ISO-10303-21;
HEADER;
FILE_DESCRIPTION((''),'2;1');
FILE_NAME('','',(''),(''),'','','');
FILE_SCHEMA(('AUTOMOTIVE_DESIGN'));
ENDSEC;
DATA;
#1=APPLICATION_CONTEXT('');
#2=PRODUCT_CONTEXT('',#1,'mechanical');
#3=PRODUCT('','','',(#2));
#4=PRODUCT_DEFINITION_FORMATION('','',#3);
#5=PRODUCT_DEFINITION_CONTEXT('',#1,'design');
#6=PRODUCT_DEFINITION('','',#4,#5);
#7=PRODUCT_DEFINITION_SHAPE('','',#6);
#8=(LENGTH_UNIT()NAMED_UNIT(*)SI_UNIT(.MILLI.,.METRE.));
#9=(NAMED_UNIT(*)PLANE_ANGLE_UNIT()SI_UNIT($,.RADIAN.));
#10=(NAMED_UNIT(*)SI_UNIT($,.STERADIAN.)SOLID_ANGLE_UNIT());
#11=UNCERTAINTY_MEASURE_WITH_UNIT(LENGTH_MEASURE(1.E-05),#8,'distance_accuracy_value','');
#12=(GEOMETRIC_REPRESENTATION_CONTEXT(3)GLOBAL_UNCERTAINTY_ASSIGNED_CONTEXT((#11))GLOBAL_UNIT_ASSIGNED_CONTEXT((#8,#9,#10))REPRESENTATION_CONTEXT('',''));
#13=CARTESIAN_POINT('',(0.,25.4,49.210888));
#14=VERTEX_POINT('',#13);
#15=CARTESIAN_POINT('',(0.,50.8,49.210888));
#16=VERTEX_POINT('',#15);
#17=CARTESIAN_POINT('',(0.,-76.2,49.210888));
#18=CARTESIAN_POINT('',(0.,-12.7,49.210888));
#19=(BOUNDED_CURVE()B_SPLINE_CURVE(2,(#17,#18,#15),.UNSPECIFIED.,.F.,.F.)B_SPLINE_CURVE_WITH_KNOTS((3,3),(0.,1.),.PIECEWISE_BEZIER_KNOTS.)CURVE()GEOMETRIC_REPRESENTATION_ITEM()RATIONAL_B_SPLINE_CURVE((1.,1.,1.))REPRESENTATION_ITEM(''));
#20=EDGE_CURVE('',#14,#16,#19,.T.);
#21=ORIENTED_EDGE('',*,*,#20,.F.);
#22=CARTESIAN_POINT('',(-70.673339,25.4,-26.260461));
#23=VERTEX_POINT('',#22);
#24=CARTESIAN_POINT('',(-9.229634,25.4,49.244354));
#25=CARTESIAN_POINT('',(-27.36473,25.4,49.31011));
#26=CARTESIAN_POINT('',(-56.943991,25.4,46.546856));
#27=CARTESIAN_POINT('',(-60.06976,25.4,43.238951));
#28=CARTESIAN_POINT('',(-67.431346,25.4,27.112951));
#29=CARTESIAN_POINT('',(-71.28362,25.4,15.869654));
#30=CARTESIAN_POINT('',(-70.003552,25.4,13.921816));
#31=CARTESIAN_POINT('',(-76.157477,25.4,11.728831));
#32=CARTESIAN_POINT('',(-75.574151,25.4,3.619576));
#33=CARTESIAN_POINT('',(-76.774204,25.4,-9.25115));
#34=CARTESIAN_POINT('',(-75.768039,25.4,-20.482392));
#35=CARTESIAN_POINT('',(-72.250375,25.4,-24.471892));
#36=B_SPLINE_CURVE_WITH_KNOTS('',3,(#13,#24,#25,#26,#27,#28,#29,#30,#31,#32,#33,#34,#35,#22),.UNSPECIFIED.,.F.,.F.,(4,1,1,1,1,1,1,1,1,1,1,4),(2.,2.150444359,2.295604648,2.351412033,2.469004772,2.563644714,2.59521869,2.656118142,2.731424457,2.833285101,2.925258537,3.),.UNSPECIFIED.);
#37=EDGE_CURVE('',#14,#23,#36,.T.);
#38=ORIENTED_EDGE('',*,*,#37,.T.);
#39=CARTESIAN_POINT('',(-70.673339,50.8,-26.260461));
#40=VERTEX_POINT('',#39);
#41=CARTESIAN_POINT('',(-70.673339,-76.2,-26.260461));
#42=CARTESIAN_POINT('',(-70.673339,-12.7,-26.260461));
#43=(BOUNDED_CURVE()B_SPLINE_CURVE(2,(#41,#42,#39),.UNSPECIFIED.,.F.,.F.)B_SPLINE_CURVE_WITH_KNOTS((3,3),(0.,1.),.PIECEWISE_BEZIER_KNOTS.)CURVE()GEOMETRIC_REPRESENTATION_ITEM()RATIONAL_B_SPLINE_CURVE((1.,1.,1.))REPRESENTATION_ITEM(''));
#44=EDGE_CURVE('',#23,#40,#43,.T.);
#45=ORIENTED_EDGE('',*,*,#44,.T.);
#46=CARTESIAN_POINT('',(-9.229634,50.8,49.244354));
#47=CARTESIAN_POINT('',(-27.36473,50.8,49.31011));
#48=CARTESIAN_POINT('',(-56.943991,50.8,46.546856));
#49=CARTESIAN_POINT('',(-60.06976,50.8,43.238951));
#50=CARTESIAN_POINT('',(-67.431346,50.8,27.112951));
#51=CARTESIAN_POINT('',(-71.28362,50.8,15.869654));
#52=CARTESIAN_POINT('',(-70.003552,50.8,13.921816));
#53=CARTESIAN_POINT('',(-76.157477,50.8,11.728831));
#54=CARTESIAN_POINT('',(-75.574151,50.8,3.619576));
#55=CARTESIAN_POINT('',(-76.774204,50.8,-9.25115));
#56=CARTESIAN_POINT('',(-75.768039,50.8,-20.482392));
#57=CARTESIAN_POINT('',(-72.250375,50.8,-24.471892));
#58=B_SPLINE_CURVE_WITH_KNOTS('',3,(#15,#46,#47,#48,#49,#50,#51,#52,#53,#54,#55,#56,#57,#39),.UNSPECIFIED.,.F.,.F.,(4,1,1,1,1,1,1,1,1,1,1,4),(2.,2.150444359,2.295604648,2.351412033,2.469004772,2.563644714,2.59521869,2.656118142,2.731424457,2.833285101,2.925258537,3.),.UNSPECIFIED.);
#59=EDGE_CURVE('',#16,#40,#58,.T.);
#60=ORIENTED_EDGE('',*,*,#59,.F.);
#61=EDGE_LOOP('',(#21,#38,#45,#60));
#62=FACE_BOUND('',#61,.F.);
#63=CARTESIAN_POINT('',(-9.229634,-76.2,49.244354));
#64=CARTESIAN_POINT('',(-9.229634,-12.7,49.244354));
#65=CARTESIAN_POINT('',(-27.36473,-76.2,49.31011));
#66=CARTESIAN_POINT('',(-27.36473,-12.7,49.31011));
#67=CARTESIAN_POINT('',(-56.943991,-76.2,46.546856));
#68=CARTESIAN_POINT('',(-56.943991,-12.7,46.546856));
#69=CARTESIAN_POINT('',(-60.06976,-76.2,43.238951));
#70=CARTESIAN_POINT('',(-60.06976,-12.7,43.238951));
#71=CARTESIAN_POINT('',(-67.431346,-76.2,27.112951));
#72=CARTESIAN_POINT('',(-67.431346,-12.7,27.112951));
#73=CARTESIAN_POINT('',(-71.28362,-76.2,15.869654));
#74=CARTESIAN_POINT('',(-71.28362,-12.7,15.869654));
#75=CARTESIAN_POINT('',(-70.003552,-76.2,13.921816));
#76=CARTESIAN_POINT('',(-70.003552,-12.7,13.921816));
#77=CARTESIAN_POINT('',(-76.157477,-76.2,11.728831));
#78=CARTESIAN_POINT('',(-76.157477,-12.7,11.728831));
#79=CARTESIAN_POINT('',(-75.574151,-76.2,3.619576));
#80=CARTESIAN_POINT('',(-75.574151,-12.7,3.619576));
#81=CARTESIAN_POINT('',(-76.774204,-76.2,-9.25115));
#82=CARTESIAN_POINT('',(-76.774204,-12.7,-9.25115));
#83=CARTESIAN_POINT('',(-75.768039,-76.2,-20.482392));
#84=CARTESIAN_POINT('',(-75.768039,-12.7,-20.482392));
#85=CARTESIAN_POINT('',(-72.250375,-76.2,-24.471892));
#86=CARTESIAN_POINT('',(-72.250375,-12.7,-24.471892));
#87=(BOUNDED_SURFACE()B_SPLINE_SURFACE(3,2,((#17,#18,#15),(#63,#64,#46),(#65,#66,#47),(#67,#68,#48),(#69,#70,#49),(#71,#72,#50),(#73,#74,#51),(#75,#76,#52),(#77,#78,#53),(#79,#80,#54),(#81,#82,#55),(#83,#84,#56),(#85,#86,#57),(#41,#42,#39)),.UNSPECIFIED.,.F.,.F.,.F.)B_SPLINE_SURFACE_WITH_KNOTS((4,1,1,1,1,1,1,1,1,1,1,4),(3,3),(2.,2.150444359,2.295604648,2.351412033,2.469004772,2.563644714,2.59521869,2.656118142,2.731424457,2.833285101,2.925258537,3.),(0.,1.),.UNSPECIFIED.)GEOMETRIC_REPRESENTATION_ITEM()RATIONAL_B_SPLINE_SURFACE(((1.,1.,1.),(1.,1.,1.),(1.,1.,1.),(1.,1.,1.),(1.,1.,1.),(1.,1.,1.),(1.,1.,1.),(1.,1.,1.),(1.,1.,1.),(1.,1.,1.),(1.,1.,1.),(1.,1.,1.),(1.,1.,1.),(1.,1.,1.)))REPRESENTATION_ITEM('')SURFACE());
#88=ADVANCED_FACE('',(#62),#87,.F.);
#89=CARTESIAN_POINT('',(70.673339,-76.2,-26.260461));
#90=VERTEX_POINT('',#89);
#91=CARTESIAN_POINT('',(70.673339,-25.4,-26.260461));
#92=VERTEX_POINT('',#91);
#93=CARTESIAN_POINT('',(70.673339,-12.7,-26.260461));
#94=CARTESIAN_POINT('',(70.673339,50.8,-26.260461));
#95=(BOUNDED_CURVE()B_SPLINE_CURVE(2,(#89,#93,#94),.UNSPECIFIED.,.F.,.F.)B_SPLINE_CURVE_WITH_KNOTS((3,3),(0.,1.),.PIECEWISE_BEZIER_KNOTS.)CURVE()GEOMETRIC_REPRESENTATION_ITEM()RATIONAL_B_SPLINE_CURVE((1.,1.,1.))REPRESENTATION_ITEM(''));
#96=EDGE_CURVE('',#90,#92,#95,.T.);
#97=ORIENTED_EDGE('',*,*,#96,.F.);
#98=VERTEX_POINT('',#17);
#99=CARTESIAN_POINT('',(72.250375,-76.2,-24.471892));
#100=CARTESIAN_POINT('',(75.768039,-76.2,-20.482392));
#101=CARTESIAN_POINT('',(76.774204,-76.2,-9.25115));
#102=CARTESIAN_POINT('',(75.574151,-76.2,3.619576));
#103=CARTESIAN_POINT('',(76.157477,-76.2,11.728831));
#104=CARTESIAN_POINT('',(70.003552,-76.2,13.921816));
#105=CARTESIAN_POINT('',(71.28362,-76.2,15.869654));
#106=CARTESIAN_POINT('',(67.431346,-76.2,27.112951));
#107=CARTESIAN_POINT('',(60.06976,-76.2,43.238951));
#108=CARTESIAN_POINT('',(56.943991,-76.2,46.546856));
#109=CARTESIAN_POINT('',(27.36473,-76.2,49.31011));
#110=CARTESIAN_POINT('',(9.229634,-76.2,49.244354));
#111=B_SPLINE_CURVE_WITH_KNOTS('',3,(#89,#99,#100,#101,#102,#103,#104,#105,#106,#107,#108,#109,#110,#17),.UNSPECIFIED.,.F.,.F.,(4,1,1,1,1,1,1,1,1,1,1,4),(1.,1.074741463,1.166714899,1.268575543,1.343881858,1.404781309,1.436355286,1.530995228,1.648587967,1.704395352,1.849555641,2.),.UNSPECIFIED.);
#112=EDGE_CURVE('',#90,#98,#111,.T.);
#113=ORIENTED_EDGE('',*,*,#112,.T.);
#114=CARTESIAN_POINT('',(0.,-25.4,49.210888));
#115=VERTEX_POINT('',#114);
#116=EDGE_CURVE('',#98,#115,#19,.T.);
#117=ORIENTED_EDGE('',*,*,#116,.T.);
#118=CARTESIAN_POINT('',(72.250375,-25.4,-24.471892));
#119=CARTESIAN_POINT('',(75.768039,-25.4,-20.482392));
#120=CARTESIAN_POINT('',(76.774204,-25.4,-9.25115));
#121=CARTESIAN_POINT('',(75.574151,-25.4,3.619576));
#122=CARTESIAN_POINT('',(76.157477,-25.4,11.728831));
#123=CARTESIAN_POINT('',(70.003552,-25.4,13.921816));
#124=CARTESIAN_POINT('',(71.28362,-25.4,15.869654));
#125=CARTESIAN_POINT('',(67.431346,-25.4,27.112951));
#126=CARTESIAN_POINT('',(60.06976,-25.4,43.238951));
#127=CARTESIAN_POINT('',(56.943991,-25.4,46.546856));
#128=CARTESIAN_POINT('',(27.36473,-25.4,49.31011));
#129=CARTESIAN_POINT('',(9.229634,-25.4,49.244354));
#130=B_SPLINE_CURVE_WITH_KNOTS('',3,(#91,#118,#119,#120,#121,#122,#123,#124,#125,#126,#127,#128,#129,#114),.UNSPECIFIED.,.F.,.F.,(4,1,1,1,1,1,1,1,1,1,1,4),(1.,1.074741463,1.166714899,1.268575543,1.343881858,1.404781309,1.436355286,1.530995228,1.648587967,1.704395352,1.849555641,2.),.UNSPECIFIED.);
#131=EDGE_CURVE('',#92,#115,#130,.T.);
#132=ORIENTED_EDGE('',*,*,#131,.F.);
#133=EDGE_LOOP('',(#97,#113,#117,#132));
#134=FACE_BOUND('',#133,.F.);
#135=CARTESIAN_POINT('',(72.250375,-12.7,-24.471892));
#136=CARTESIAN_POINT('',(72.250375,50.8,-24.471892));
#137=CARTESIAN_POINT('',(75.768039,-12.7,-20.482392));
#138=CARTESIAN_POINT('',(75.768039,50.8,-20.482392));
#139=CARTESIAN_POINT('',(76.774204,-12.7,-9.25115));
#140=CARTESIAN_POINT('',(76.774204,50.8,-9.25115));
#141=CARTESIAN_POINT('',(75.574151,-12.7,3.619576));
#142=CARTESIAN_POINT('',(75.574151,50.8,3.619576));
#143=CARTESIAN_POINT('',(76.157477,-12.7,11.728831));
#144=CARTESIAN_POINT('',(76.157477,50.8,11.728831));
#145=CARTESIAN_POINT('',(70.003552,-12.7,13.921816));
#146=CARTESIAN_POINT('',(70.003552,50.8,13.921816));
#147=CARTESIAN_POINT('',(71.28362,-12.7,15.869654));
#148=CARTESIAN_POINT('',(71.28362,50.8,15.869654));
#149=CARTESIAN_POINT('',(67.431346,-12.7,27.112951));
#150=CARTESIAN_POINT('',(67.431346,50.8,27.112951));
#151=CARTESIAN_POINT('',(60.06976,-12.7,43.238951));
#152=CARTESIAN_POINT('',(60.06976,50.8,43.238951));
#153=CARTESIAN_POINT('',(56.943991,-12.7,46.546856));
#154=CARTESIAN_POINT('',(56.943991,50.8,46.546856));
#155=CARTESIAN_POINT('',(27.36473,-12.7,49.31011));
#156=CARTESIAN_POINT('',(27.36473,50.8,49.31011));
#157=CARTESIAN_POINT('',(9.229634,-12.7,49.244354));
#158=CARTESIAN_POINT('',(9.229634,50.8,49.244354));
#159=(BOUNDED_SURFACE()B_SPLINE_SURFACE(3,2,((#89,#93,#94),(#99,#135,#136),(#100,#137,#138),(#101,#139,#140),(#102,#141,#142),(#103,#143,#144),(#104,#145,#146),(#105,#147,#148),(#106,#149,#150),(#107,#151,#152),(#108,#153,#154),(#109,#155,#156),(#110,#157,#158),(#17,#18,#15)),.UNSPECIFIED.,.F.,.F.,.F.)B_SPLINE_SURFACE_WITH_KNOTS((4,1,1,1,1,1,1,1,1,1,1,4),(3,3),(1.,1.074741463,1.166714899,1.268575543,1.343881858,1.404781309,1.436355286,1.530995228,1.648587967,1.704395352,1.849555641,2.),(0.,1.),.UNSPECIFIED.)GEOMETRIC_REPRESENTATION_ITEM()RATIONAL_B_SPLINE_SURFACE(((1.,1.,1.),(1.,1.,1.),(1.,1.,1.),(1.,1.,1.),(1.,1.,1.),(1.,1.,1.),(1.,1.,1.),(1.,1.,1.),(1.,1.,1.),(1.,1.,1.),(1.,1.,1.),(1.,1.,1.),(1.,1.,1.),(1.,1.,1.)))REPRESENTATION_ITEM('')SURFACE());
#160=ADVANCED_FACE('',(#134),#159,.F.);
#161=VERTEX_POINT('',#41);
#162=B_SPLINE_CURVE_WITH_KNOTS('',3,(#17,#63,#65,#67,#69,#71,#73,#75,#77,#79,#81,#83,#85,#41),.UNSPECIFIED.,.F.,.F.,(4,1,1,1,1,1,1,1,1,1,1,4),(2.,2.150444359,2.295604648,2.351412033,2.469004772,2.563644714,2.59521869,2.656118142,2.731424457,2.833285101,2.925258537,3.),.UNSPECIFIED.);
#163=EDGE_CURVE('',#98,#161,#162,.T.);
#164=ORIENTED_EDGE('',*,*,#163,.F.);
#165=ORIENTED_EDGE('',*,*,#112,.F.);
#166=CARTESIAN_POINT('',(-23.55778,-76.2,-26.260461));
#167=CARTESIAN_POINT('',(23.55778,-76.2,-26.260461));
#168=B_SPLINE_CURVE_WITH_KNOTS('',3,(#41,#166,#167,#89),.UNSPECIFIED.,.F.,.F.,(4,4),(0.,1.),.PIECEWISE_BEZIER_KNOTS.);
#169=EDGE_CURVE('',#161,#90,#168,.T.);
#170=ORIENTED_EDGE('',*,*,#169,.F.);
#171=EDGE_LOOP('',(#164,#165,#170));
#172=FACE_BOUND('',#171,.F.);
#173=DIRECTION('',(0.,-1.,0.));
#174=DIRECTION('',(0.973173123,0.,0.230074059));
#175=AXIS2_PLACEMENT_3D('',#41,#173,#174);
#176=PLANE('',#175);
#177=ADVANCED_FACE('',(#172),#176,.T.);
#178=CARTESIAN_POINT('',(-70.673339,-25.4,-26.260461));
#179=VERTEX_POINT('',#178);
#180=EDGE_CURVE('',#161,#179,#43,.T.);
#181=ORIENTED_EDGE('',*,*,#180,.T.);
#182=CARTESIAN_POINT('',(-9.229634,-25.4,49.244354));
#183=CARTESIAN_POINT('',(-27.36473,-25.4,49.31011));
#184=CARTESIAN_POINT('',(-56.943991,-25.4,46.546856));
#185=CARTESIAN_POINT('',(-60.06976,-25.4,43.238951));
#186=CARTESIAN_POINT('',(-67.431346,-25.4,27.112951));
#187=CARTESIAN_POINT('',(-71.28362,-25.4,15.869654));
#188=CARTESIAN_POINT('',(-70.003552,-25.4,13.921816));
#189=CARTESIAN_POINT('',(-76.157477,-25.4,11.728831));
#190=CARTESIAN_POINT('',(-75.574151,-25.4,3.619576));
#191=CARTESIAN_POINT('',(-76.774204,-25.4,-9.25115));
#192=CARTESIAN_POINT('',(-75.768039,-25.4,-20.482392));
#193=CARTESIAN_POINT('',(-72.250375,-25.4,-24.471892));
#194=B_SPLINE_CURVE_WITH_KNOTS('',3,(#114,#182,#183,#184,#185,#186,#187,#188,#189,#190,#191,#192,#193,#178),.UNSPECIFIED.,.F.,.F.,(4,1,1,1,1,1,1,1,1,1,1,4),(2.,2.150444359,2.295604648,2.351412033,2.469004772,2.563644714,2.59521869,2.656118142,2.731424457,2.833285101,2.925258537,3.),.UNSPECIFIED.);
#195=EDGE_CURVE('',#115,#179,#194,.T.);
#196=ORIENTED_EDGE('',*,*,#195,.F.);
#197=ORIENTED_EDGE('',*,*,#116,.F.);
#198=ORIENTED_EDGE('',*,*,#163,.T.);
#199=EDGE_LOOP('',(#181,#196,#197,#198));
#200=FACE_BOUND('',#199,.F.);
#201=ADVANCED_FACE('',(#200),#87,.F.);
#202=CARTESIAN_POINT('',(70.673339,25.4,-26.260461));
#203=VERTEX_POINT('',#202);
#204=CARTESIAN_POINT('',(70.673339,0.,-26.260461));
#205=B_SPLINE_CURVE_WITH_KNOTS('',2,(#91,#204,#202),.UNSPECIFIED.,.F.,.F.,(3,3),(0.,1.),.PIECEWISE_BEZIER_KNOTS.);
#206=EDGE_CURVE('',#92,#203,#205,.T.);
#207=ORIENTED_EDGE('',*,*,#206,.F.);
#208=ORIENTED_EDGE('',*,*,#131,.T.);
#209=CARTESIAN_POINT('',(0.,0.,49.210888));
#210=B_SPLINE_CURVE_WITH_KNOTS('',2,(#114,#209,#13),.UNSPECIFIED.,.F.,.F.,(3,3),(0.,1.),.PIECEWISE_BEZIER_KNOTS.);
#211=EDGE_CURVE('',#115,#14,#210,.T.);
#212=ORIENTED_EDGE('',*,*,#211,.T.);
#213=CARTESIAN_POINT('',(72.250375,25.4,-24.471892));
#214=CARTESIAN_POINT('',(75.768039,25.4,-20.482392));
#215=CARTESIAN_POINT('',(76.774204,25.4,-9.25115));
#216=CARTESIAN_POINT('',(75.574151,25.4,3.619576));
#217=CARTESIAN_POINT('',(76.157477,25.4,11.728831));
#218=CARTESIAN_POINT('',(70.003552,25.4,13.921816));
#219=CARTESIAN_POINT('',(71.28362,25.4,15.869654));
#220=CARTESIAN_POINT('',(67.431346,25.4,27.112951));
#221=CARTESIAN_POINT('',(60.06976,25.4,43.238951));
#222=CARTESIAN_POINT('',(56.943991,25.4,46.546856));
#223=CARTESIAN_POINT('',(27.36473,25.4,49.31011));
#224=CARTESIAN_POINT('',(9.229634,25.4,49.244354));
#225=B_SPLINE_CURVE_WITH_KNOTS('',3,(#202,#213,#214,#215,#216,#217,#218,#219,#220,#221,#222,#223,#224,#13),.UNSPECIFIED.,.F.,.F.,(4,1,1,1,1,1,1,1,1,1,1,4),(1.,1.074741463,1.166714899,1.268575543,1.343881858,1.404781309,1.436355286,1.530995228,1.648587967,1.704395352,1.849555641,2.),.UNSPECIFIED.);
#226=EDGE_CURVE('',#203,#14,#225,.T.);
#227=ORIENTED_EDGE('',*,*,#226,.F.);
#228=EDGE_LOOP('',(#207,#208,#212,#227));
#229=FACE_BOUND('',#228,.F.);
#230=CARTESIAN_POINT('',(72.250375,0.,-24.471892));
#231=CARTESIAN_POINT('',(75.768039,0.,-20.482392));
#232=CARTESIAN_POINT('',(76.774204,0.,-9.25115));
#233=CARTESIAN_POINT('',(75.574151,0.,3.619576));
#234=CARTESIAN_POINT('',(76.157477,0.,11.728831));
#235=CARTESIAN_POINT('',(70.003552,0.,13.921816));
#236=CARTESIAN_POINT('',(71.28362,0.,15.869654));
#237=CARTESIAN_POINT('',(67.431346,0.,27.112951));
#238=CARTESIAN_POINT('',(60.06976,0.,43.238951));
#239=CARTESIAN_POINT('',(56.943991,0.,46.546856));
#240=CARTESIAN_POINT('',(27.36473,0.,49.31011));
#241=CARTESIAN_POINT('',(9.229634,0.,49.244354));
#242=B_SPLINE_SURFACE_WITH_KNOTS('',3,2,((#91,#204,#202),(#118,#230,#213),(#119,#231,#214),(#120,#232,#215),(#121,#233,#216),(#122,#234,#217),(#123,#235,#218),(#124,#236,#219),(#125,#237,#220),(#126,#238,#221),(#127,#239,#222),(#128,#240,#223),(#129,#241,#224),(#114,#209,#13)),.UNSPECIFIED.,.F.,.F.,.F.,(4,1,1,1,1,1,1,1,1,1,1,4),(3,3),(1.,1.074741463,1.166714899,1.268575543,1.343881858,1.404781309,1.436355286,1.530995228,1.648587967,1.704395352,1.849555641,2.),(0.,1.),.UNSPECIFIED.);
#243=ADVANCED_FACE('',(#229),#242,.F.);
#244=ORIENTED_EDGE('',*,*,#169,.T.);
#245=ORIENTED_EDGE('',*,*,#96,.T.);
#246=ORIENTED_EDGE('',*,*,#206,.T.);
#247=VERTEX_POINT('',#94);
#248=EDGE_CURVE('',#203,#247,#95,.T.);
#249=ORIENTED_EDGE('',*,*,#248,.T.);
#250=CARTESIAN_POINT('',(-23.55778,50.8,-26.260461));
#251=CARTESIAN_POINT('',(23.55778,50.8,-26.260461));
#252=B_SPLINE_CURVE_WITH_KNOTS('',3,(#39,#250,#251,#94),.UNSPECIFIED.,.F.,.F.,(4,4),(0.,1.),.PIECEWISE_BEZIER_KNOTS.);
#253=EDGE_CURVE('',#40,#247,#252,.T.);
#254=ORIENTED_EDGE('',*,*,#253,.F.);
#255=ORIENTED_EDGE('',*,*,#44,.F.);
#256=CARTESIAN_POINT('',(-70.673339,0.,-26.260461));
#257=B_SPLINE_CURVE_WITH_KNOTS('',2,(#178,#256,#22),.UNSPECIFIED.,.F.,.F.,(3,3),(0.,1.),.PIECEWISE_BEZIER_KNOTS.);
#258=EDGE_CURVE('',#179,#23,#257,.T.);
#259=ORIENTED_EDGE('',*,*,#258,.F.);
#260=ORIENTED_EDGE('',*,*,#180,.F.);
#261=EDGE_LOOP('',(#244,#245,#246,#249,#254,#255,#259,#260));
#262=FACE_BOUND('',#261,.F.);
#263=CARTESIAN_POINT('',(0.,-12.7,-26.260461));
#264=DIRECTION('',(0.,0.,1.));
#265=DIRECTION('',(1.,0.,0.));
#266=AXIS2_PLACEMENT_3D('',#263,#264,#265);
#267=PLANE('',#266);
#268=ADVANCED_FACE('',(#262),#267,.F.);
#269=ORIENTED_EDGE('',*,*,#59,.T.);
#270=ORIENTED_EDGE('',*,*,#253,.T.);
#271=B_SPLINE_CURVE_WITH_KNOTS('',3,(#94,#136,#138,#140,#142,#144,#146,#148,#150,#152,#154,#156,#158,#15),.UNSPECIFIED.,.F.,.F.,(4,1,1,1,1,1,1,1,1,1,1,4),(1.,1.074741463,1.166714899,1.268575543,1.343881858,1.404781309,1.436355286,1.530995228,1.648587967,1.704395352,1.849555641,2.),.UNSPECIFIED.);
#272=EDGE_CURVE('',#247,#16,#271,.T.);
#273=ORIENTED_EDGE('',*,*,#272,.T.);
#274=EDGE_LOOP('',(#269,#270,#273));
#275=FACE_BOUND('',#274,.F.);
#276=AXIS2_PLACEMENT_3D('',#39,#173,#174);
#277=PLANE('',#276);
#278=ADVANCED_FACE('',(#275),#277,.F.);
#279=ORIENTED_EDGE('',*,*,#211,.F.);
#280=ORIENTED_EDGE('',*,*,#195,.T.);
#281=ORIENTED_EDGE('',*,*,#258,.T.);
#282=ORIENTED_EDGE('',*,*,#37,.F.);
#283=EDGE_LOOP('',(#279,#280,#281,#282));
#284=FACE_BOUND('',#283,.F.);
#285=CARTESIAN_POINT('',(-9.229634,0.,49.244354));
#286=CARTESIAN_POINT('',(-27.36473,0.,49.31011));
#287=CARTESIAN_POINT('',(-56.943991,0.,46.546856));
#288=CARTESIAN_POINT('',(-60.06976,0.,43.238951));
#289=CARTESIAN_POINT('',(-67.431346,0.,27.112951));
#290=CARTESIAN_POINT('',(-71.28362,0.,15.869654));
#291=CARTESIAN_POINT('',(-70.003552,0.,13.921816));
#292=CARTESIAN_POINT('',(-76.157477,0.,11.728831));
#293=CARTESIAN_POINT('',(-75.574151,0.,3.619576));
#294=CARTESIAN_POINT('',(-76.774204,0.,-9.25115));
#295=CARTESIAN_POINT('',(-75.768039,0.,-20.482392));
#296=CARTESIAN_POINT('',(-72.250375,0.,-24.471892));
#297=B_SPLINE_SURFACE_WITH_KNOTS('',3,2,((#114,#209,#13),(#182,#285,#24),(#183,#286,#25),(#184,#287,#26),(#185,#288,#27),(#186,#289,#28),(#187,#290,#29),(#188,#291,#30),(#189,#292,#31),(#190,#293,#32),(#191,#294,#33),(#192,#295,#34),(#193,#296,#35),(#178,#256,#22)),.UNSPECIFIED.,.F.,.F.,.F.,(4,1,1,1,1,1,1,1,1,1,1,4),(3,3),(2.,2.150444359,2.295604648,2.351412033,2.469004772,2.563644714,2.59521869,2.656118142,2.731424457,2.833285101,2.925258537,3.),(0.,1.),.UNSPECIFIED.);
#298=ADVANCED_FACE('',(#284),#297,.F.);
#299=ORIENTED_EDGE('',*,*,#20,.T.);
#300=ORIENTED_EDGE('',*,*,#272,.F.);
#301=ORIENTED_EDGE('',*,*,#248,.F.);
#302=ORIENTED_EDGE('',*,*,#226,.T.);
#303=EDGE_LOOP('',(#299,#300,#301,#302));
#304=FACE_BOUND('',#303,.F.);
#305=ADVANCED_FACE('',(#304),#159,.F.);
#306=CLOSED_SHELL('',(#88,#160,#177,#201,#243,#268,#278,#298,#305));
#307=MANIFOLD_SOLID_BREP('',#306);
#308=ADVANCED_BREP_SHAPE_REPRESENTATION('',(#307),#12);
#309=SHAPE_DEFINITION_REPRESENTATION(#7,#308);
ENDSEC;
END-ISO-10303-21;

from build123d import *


with BuildPart() as f5:
    # F2 (on offset) → F5 section 0
    with BuildSketch(Plane.XZ.offset(25.4)):
        with BuildLine():
            Line((-70.6733390689, -26.2604607935), (0, -26.2604607935))
            Line((0, -26.2604607935), (70.6733390689, -26.2604607935))
            add(Edge.make_bspline(
                [(70.6733390689, -26.2604607935), (72.2503747875, -24.4718920492), (75.7680387504, -20.4823921647), (76.7742040767, -9.251150277), (75.574150918, 3.6195758118), (76.1574771859, 11.728830556), (70.0035523206, 13.9218157376), (71.2836195608, 15.8696540221), (67.4313457137, 27.112950519), (60.069760365, 43.2389513494), (56.9439913848, 46.5468555103), (27.3647296132, 49.3101097267), (9.229634278, 49.2443538922), (0, 49.210888267)],
                knots=[0, 0, 0, 0, 0.0747414628, 0.1667148987, 0.2685755434, 0.3438818582, 0.4047813095, 0.4363552858, 0.5309952283, 0.6485879671, 0.7043953518, 0.849555641, 1, 1, 1, 1], degree=3))
            add(Edge.make_bspline(
                [(-70.6733390689, -26.2604607935), (-72.2503747875, -24.4718920492), (-75.7680387504, -20.4823921647), (-76.7742040767, -9.251150277), (-75.574150918, 3.6195758118), (-76.1574771859, 11.728830556), (-70.0035523206, 13.9218157376), (-71.2836195608, 15.8696540221), (-67.4313457137, 27.112950519), (-60.069760365, 43.2389513494), (-56.9439913848, 46.5468555103), (-27.3647296132, 49.3101097267), (-9.229634278, 49.2443538922), (0, 49.210888267)],
                knots=[0, 0, 0, 0, 0.0747414628, 0.1667148987, 0.2685755434, 0.3438818582, 0.4047813095, 0.4363552858, 0.5309952283, 0.6485879671, 0.7043953518, 0.849555641, 1, 1, 1, 1], degree=3))
        make_face()
    # F4 (on Front) → F5 section 1
    with BuildSketch(Plane.XZ):
        with BuildLine():
            Line((-70.6733390689, -26.2604607935), (0, -26.2604607935))
            Line((0, -26.2604607935), (70.6733390689, -26.2604607935))
            add(Edge.make_bspline(
                [(70.6733390689, -26.2604607935), (72.2503747875, -24.4718920492), (75.7680387504, -20.4823921647), (76.7742040767, -9.251150277), (75.574150918, 3.6195758118), (76.1574771859, 11.728830556), (70.0035523206, 13.9218157376), (71.2836195608, 15.8696540221), (67.4313457137, 27.112950519), (60.069760365, 43.2389513494), (56.9439913848, 46.5468555103), (27.3647296132, 49.3101097267), (9.229634278, 49.2443538922), (0, 49.210888267)],
                knots=[0, 0, 0, 0, 0.0747414628, 0.1667148987, 0.2685755434, 0.3438818582, 0.4047813095, 0.4363552858, 0.5309952283, 0.6485879671, 0.7043953518, 0.849555641, 1, 1, 1, 1], degree=3))
            add(Edge.make_bspline(
                [(-70.6733390689, -26.2604607935), (-72.2503747875, -24.4718920492), (-75.7680387504, -20.4823921647), (-76.7742040767, -9.251150277), (-75.574150918, 3.6195758118), (-76.1574771859, 11.728830556), (-70.0035523206, 13.9218157376), (-71.2836195608, 15.8696540221), (-67.4313457137, 27.112950519), (-60.069760365, 43.2389513494), (-56.9439913848, 46.5468555103), (-27.3647296132, 49.3101097267), (-9.229634278, 49.2443538922), (0, 49.210888267)],
                knots=[0, 0, 0, 0, 0.0747414628, 0.1667148987, 0.2685755434, 0.3438818582, 0.4047813095, 0.4363552858, 0.5309952283, 0.6485879671, 0.7043953518, 0.849555641, 1, 1, 1, 1], degree=3))
        make_face()
    # F3 (on offset) → F5 section 2
    with BuildSketch(Plane.XZ.offset(-25.4)):
        with BuildLine():
            Line((-70.6733390689, -26.2604607935), (0, -26.2604607935))
            Line((0, -26.2604607935), (70.6733390689, -26.2604607935))
            add(Edge.make_bspline(
                [(70.6733390689, -26.2604607935), (72.2503747875, -24.4718920492), (75.7680387504, -20.4823921647), (76.7742040767, -9.251150277), (75.574150918, 3.6195758118), (76.1574771859, 11.728830556), (70.0035523206, 13.9218157376), (71.2836195608, 15.8696540221), (67.4313457137, 27.112950519), (60.069760365, 43.2389513494), (56.9439913848, 46.5468555103), (27.3647296132, 49.3101097267), (9.229634278, 49.2443538922), (0, 49.210888267)],
                knots=[0, 0, 0, 0, 0.0747414628, 0.1667148987, 0.2685755434, 0.3438818582, 0.4047813095, 0.4363552858, 0.5309952283, 0.6485879671, 0.7043953518, 0.849555641, 1, 1, 1, 1], degree=3))
            add(Edge.make_bspline(
                [(-70.6733390689, -26.2604607935), (-72.2503747875, -24.4718920492), (-75.7680387504, -20.4823921647), (-76.7742040767, -9.251150277), (-75.574150918, 3.6195758118), (-76.1574771859, 11.728830556), (-70.0035523206, 13.9218157376), (-71.2836195608, 15.8696540221), (-67.4313457137, 27.112950519), (-60.069760365, 43.2389513494), (-56.9439913848, 46.5468555103), (-27.3647296132, 49.3101097267), (-9.229634278, 49.2443538922), (0, 49.210888267)],
                knots=[0, 0, 0, 0, 0.0747414628, 0.1667148987, 0.2685755434, 0.3438818582, 0.4047813095, 0.4363552858, 0.5309952283, 0.6485879671, 0.7043953518, 0.849555641, 1, 1, 1, 1], degree=3))
        make_face()
    loft()

    # F12 (on offset) → F13 section 0
    with BuildSketch(Plane.XZ.offset(76.2)):
        with BuildLine():
            Line((-70.6733390689, -26.2604607935), (0, -26.2604607935))
            Line((0, -26.2604607935), (70.6733390689, -26.2604607935))
            add(Edge.make_bspline(
                [(70.6733390689, -26.2604607935), (72.2503747875, -24.4718920492), (75.7680387504, -20.4823921647), (76.7742040767, -9.251150277), (75.574150918, 3.6195758118), (76.1574771859, 11.728830556), (70.0035523206, 13.9218157376), (71.2836195608, 15.8696540221), (67.4313457137, 27.112950519), (60.069760365, 43.2389513494), (56.9439913848, 46.5468555103), (27.3647296132, 49.3101097267), (9.229634278, 49.2443538922), (0, 49.210888267)],
                knots=[0, 0, 0, 0, 0.0747414628, 0.1667148987, 0.2685755434, 0.3438818582, 0.4047813095, 0.4363552858, 0.5309952283, 0.6485879671, 0.7043953518, 0.849555641, 1, 1, 1, 1], degree=3))
            add(Edge.make_bspline(
                [(-70.6733390689, -26.2604607935), (-72.2503747875, -24.4718920492), (-75.7680387504, -20.4823921647), (-76.7742040767, -9.251150277), (-75.574150918, 3.6195758118), (-76.1574771859, 11.728830556), (-70.0035523206, 13.9218157376), (-71.2836195608, 15.8696540221), (-67.4313457137, 27.112950519), (-60.069760365, 43.2389513494), (-56.9439913848, 46.5468555103), (-27.3647296132, 49.3101097267), (-9.229634278, 49.2443538922), (0, 49.210888267)],
                knots=[0, 0, 0, 0, 0.0747414628, 0.1667148987, 0.2685755434, 0.3438818582, 0.4047813095, 0.4363552858, 0.5309952283, 0.6485879671, 0.7043953518, 0.849555641, 1, 1, 1, 1], degree=3))
        make_face()
    # F9 (on offset) → F13 section 1
    with BuildSketch(Plane.XZ.offset(50.8)):
        with BuildLine():
            Line((-70.6733390689, -26.2604607935), (0, -26.2604607935))
            Line((0, -26.2604607935), (70.6733390689, -26.2604607935))
            add(Edge.make_bspline(
                [(70.6733390689, -26.2604607935), (72.2503747875, -24.4718920492), (75.7680387504, -20.4823921647), (76.7742040767, -9.251150277), (75.574150918, 3.6195758118), (76.1574771859, 11.728830556), (70.0035523206, 13.9218157376), (71.2836195608, 15.8696540221), (67.4313457137, 27.112950519), (60.069760365, 43.2389513494), (56.9439913848, 46.5468555103), (27.3647296132, 49.3101097267), (9.229634278, 49.2443538922), (0, 49.210888267)],
                knots=[0, 0, 0, 0, 0.0747414628, 0.1667148987, 0.2685755434, 0.3438818582, 0.4047813095, 0.4363552858, 0.5309952283, 0.6485879671, 0.7043953518, 0.849555641, 1, 1, 1, 1], degree=3))
            add(Edge.make_bspline(
                [(-70.6733390689, -26.2604607935), (-72.2503747875, -24.4718920492), (-75.7680387504, -20.4823921647), (-76.7742040767, -9.251150277), (-75.574150918, 3.6195758118), (-76.1574771859, 11.728830556), (-70.0035523206, 13.9218157376), (-71.2836195608, 15.8696540221), (-67.4313457137, 27.112950519), (-60.069760365, 43.2389513494), (-56.9439913848, 46.5468555103), (-27.3647296132, 49.3101097267), (-9.229634278, 49.2443538922), (0, 49.210888267)],
                knots=[0, 0, 0, 0, 0.0747414628, 0.1667148987, 0.2685755434, 0.3438818582, 0.4047813095, 0.4363552858, 0.5309952283, 0.6485879671, 0.7043953518, 0.849555641, 1, 1, 1, 1], degree=3))
        make_face()
    # F7 (on offset) → F13 section 2
    with BuildSketch(Plane.XZ.offset(-50.8)):
        with BuildLine():
            Line((-70.6733390689, -26.2604607935), (0, -26.2604607935))
            Line((0, -26.2604607935), (70.6733390689, -26.2604607935))
            add(Edge.make_bspline(
                [(70.6733390689, -26.2604607935), (72.2503747875, -24.4718920492), (75.7680387504, -20.4823921647), (76.7742040767, -9.251150277), (75.574150918, 3.6195758118), (76.1574771859, 11.728830556), (70.0035523206, 13.9218157376), (71.2836195608, 15.8696540221), (67.4313457137, 27.112950519), (60.069760365, 43.2389513494), (56.9439913848, 46.5468555103), (27.3647296132, 49.3101097267), (9.229634278, 49.2443538922), (0, 49.210888267)],
                knots=[0, 0, 0, 0, 0.0747414628, 0.1667148987, 0.2685755434, 0.3438818582, 0.4047813095, 0.4363552858, 0.5309952283, 0.6485879671, 0.7043953518, 0.849555641, 1, 1, 1, 1], degree=3))
            add(Edge.make_bspline(
                [(-70.6733390689, -26.2604607935), (-72.2503747875, -24.4718920492), (-75.7680387504, -20.4823921647), (-76.7742040767, -9.251150277), (-75.574150918, 3.6195758118), (-76.1574771859, 11.728830556), (-70.0035523206, 13.9218157376), (-71.2836195608, 15.8696540221), (-67.4313457137, 27.112950519), (-60.069760365, 43.2389513494), (-56.9439913848, 46.5468555103), (-27.3647296132, 49.3101097267), (-9.229634278, 49.2443538922), (0, 49.210888267)],
                knots=[0, 0, 0, 0, 0.0747414628, 0.1667148987, 0.2685755434, 0.3438818582, 0.4047813095, 0.4363552858, 0.5309952283, 0.6485879671, 0.7043953518, 0.849555641, 1, 1, 1, 1], degree=3))
        make_face()
    loft()


solid = f5.part
